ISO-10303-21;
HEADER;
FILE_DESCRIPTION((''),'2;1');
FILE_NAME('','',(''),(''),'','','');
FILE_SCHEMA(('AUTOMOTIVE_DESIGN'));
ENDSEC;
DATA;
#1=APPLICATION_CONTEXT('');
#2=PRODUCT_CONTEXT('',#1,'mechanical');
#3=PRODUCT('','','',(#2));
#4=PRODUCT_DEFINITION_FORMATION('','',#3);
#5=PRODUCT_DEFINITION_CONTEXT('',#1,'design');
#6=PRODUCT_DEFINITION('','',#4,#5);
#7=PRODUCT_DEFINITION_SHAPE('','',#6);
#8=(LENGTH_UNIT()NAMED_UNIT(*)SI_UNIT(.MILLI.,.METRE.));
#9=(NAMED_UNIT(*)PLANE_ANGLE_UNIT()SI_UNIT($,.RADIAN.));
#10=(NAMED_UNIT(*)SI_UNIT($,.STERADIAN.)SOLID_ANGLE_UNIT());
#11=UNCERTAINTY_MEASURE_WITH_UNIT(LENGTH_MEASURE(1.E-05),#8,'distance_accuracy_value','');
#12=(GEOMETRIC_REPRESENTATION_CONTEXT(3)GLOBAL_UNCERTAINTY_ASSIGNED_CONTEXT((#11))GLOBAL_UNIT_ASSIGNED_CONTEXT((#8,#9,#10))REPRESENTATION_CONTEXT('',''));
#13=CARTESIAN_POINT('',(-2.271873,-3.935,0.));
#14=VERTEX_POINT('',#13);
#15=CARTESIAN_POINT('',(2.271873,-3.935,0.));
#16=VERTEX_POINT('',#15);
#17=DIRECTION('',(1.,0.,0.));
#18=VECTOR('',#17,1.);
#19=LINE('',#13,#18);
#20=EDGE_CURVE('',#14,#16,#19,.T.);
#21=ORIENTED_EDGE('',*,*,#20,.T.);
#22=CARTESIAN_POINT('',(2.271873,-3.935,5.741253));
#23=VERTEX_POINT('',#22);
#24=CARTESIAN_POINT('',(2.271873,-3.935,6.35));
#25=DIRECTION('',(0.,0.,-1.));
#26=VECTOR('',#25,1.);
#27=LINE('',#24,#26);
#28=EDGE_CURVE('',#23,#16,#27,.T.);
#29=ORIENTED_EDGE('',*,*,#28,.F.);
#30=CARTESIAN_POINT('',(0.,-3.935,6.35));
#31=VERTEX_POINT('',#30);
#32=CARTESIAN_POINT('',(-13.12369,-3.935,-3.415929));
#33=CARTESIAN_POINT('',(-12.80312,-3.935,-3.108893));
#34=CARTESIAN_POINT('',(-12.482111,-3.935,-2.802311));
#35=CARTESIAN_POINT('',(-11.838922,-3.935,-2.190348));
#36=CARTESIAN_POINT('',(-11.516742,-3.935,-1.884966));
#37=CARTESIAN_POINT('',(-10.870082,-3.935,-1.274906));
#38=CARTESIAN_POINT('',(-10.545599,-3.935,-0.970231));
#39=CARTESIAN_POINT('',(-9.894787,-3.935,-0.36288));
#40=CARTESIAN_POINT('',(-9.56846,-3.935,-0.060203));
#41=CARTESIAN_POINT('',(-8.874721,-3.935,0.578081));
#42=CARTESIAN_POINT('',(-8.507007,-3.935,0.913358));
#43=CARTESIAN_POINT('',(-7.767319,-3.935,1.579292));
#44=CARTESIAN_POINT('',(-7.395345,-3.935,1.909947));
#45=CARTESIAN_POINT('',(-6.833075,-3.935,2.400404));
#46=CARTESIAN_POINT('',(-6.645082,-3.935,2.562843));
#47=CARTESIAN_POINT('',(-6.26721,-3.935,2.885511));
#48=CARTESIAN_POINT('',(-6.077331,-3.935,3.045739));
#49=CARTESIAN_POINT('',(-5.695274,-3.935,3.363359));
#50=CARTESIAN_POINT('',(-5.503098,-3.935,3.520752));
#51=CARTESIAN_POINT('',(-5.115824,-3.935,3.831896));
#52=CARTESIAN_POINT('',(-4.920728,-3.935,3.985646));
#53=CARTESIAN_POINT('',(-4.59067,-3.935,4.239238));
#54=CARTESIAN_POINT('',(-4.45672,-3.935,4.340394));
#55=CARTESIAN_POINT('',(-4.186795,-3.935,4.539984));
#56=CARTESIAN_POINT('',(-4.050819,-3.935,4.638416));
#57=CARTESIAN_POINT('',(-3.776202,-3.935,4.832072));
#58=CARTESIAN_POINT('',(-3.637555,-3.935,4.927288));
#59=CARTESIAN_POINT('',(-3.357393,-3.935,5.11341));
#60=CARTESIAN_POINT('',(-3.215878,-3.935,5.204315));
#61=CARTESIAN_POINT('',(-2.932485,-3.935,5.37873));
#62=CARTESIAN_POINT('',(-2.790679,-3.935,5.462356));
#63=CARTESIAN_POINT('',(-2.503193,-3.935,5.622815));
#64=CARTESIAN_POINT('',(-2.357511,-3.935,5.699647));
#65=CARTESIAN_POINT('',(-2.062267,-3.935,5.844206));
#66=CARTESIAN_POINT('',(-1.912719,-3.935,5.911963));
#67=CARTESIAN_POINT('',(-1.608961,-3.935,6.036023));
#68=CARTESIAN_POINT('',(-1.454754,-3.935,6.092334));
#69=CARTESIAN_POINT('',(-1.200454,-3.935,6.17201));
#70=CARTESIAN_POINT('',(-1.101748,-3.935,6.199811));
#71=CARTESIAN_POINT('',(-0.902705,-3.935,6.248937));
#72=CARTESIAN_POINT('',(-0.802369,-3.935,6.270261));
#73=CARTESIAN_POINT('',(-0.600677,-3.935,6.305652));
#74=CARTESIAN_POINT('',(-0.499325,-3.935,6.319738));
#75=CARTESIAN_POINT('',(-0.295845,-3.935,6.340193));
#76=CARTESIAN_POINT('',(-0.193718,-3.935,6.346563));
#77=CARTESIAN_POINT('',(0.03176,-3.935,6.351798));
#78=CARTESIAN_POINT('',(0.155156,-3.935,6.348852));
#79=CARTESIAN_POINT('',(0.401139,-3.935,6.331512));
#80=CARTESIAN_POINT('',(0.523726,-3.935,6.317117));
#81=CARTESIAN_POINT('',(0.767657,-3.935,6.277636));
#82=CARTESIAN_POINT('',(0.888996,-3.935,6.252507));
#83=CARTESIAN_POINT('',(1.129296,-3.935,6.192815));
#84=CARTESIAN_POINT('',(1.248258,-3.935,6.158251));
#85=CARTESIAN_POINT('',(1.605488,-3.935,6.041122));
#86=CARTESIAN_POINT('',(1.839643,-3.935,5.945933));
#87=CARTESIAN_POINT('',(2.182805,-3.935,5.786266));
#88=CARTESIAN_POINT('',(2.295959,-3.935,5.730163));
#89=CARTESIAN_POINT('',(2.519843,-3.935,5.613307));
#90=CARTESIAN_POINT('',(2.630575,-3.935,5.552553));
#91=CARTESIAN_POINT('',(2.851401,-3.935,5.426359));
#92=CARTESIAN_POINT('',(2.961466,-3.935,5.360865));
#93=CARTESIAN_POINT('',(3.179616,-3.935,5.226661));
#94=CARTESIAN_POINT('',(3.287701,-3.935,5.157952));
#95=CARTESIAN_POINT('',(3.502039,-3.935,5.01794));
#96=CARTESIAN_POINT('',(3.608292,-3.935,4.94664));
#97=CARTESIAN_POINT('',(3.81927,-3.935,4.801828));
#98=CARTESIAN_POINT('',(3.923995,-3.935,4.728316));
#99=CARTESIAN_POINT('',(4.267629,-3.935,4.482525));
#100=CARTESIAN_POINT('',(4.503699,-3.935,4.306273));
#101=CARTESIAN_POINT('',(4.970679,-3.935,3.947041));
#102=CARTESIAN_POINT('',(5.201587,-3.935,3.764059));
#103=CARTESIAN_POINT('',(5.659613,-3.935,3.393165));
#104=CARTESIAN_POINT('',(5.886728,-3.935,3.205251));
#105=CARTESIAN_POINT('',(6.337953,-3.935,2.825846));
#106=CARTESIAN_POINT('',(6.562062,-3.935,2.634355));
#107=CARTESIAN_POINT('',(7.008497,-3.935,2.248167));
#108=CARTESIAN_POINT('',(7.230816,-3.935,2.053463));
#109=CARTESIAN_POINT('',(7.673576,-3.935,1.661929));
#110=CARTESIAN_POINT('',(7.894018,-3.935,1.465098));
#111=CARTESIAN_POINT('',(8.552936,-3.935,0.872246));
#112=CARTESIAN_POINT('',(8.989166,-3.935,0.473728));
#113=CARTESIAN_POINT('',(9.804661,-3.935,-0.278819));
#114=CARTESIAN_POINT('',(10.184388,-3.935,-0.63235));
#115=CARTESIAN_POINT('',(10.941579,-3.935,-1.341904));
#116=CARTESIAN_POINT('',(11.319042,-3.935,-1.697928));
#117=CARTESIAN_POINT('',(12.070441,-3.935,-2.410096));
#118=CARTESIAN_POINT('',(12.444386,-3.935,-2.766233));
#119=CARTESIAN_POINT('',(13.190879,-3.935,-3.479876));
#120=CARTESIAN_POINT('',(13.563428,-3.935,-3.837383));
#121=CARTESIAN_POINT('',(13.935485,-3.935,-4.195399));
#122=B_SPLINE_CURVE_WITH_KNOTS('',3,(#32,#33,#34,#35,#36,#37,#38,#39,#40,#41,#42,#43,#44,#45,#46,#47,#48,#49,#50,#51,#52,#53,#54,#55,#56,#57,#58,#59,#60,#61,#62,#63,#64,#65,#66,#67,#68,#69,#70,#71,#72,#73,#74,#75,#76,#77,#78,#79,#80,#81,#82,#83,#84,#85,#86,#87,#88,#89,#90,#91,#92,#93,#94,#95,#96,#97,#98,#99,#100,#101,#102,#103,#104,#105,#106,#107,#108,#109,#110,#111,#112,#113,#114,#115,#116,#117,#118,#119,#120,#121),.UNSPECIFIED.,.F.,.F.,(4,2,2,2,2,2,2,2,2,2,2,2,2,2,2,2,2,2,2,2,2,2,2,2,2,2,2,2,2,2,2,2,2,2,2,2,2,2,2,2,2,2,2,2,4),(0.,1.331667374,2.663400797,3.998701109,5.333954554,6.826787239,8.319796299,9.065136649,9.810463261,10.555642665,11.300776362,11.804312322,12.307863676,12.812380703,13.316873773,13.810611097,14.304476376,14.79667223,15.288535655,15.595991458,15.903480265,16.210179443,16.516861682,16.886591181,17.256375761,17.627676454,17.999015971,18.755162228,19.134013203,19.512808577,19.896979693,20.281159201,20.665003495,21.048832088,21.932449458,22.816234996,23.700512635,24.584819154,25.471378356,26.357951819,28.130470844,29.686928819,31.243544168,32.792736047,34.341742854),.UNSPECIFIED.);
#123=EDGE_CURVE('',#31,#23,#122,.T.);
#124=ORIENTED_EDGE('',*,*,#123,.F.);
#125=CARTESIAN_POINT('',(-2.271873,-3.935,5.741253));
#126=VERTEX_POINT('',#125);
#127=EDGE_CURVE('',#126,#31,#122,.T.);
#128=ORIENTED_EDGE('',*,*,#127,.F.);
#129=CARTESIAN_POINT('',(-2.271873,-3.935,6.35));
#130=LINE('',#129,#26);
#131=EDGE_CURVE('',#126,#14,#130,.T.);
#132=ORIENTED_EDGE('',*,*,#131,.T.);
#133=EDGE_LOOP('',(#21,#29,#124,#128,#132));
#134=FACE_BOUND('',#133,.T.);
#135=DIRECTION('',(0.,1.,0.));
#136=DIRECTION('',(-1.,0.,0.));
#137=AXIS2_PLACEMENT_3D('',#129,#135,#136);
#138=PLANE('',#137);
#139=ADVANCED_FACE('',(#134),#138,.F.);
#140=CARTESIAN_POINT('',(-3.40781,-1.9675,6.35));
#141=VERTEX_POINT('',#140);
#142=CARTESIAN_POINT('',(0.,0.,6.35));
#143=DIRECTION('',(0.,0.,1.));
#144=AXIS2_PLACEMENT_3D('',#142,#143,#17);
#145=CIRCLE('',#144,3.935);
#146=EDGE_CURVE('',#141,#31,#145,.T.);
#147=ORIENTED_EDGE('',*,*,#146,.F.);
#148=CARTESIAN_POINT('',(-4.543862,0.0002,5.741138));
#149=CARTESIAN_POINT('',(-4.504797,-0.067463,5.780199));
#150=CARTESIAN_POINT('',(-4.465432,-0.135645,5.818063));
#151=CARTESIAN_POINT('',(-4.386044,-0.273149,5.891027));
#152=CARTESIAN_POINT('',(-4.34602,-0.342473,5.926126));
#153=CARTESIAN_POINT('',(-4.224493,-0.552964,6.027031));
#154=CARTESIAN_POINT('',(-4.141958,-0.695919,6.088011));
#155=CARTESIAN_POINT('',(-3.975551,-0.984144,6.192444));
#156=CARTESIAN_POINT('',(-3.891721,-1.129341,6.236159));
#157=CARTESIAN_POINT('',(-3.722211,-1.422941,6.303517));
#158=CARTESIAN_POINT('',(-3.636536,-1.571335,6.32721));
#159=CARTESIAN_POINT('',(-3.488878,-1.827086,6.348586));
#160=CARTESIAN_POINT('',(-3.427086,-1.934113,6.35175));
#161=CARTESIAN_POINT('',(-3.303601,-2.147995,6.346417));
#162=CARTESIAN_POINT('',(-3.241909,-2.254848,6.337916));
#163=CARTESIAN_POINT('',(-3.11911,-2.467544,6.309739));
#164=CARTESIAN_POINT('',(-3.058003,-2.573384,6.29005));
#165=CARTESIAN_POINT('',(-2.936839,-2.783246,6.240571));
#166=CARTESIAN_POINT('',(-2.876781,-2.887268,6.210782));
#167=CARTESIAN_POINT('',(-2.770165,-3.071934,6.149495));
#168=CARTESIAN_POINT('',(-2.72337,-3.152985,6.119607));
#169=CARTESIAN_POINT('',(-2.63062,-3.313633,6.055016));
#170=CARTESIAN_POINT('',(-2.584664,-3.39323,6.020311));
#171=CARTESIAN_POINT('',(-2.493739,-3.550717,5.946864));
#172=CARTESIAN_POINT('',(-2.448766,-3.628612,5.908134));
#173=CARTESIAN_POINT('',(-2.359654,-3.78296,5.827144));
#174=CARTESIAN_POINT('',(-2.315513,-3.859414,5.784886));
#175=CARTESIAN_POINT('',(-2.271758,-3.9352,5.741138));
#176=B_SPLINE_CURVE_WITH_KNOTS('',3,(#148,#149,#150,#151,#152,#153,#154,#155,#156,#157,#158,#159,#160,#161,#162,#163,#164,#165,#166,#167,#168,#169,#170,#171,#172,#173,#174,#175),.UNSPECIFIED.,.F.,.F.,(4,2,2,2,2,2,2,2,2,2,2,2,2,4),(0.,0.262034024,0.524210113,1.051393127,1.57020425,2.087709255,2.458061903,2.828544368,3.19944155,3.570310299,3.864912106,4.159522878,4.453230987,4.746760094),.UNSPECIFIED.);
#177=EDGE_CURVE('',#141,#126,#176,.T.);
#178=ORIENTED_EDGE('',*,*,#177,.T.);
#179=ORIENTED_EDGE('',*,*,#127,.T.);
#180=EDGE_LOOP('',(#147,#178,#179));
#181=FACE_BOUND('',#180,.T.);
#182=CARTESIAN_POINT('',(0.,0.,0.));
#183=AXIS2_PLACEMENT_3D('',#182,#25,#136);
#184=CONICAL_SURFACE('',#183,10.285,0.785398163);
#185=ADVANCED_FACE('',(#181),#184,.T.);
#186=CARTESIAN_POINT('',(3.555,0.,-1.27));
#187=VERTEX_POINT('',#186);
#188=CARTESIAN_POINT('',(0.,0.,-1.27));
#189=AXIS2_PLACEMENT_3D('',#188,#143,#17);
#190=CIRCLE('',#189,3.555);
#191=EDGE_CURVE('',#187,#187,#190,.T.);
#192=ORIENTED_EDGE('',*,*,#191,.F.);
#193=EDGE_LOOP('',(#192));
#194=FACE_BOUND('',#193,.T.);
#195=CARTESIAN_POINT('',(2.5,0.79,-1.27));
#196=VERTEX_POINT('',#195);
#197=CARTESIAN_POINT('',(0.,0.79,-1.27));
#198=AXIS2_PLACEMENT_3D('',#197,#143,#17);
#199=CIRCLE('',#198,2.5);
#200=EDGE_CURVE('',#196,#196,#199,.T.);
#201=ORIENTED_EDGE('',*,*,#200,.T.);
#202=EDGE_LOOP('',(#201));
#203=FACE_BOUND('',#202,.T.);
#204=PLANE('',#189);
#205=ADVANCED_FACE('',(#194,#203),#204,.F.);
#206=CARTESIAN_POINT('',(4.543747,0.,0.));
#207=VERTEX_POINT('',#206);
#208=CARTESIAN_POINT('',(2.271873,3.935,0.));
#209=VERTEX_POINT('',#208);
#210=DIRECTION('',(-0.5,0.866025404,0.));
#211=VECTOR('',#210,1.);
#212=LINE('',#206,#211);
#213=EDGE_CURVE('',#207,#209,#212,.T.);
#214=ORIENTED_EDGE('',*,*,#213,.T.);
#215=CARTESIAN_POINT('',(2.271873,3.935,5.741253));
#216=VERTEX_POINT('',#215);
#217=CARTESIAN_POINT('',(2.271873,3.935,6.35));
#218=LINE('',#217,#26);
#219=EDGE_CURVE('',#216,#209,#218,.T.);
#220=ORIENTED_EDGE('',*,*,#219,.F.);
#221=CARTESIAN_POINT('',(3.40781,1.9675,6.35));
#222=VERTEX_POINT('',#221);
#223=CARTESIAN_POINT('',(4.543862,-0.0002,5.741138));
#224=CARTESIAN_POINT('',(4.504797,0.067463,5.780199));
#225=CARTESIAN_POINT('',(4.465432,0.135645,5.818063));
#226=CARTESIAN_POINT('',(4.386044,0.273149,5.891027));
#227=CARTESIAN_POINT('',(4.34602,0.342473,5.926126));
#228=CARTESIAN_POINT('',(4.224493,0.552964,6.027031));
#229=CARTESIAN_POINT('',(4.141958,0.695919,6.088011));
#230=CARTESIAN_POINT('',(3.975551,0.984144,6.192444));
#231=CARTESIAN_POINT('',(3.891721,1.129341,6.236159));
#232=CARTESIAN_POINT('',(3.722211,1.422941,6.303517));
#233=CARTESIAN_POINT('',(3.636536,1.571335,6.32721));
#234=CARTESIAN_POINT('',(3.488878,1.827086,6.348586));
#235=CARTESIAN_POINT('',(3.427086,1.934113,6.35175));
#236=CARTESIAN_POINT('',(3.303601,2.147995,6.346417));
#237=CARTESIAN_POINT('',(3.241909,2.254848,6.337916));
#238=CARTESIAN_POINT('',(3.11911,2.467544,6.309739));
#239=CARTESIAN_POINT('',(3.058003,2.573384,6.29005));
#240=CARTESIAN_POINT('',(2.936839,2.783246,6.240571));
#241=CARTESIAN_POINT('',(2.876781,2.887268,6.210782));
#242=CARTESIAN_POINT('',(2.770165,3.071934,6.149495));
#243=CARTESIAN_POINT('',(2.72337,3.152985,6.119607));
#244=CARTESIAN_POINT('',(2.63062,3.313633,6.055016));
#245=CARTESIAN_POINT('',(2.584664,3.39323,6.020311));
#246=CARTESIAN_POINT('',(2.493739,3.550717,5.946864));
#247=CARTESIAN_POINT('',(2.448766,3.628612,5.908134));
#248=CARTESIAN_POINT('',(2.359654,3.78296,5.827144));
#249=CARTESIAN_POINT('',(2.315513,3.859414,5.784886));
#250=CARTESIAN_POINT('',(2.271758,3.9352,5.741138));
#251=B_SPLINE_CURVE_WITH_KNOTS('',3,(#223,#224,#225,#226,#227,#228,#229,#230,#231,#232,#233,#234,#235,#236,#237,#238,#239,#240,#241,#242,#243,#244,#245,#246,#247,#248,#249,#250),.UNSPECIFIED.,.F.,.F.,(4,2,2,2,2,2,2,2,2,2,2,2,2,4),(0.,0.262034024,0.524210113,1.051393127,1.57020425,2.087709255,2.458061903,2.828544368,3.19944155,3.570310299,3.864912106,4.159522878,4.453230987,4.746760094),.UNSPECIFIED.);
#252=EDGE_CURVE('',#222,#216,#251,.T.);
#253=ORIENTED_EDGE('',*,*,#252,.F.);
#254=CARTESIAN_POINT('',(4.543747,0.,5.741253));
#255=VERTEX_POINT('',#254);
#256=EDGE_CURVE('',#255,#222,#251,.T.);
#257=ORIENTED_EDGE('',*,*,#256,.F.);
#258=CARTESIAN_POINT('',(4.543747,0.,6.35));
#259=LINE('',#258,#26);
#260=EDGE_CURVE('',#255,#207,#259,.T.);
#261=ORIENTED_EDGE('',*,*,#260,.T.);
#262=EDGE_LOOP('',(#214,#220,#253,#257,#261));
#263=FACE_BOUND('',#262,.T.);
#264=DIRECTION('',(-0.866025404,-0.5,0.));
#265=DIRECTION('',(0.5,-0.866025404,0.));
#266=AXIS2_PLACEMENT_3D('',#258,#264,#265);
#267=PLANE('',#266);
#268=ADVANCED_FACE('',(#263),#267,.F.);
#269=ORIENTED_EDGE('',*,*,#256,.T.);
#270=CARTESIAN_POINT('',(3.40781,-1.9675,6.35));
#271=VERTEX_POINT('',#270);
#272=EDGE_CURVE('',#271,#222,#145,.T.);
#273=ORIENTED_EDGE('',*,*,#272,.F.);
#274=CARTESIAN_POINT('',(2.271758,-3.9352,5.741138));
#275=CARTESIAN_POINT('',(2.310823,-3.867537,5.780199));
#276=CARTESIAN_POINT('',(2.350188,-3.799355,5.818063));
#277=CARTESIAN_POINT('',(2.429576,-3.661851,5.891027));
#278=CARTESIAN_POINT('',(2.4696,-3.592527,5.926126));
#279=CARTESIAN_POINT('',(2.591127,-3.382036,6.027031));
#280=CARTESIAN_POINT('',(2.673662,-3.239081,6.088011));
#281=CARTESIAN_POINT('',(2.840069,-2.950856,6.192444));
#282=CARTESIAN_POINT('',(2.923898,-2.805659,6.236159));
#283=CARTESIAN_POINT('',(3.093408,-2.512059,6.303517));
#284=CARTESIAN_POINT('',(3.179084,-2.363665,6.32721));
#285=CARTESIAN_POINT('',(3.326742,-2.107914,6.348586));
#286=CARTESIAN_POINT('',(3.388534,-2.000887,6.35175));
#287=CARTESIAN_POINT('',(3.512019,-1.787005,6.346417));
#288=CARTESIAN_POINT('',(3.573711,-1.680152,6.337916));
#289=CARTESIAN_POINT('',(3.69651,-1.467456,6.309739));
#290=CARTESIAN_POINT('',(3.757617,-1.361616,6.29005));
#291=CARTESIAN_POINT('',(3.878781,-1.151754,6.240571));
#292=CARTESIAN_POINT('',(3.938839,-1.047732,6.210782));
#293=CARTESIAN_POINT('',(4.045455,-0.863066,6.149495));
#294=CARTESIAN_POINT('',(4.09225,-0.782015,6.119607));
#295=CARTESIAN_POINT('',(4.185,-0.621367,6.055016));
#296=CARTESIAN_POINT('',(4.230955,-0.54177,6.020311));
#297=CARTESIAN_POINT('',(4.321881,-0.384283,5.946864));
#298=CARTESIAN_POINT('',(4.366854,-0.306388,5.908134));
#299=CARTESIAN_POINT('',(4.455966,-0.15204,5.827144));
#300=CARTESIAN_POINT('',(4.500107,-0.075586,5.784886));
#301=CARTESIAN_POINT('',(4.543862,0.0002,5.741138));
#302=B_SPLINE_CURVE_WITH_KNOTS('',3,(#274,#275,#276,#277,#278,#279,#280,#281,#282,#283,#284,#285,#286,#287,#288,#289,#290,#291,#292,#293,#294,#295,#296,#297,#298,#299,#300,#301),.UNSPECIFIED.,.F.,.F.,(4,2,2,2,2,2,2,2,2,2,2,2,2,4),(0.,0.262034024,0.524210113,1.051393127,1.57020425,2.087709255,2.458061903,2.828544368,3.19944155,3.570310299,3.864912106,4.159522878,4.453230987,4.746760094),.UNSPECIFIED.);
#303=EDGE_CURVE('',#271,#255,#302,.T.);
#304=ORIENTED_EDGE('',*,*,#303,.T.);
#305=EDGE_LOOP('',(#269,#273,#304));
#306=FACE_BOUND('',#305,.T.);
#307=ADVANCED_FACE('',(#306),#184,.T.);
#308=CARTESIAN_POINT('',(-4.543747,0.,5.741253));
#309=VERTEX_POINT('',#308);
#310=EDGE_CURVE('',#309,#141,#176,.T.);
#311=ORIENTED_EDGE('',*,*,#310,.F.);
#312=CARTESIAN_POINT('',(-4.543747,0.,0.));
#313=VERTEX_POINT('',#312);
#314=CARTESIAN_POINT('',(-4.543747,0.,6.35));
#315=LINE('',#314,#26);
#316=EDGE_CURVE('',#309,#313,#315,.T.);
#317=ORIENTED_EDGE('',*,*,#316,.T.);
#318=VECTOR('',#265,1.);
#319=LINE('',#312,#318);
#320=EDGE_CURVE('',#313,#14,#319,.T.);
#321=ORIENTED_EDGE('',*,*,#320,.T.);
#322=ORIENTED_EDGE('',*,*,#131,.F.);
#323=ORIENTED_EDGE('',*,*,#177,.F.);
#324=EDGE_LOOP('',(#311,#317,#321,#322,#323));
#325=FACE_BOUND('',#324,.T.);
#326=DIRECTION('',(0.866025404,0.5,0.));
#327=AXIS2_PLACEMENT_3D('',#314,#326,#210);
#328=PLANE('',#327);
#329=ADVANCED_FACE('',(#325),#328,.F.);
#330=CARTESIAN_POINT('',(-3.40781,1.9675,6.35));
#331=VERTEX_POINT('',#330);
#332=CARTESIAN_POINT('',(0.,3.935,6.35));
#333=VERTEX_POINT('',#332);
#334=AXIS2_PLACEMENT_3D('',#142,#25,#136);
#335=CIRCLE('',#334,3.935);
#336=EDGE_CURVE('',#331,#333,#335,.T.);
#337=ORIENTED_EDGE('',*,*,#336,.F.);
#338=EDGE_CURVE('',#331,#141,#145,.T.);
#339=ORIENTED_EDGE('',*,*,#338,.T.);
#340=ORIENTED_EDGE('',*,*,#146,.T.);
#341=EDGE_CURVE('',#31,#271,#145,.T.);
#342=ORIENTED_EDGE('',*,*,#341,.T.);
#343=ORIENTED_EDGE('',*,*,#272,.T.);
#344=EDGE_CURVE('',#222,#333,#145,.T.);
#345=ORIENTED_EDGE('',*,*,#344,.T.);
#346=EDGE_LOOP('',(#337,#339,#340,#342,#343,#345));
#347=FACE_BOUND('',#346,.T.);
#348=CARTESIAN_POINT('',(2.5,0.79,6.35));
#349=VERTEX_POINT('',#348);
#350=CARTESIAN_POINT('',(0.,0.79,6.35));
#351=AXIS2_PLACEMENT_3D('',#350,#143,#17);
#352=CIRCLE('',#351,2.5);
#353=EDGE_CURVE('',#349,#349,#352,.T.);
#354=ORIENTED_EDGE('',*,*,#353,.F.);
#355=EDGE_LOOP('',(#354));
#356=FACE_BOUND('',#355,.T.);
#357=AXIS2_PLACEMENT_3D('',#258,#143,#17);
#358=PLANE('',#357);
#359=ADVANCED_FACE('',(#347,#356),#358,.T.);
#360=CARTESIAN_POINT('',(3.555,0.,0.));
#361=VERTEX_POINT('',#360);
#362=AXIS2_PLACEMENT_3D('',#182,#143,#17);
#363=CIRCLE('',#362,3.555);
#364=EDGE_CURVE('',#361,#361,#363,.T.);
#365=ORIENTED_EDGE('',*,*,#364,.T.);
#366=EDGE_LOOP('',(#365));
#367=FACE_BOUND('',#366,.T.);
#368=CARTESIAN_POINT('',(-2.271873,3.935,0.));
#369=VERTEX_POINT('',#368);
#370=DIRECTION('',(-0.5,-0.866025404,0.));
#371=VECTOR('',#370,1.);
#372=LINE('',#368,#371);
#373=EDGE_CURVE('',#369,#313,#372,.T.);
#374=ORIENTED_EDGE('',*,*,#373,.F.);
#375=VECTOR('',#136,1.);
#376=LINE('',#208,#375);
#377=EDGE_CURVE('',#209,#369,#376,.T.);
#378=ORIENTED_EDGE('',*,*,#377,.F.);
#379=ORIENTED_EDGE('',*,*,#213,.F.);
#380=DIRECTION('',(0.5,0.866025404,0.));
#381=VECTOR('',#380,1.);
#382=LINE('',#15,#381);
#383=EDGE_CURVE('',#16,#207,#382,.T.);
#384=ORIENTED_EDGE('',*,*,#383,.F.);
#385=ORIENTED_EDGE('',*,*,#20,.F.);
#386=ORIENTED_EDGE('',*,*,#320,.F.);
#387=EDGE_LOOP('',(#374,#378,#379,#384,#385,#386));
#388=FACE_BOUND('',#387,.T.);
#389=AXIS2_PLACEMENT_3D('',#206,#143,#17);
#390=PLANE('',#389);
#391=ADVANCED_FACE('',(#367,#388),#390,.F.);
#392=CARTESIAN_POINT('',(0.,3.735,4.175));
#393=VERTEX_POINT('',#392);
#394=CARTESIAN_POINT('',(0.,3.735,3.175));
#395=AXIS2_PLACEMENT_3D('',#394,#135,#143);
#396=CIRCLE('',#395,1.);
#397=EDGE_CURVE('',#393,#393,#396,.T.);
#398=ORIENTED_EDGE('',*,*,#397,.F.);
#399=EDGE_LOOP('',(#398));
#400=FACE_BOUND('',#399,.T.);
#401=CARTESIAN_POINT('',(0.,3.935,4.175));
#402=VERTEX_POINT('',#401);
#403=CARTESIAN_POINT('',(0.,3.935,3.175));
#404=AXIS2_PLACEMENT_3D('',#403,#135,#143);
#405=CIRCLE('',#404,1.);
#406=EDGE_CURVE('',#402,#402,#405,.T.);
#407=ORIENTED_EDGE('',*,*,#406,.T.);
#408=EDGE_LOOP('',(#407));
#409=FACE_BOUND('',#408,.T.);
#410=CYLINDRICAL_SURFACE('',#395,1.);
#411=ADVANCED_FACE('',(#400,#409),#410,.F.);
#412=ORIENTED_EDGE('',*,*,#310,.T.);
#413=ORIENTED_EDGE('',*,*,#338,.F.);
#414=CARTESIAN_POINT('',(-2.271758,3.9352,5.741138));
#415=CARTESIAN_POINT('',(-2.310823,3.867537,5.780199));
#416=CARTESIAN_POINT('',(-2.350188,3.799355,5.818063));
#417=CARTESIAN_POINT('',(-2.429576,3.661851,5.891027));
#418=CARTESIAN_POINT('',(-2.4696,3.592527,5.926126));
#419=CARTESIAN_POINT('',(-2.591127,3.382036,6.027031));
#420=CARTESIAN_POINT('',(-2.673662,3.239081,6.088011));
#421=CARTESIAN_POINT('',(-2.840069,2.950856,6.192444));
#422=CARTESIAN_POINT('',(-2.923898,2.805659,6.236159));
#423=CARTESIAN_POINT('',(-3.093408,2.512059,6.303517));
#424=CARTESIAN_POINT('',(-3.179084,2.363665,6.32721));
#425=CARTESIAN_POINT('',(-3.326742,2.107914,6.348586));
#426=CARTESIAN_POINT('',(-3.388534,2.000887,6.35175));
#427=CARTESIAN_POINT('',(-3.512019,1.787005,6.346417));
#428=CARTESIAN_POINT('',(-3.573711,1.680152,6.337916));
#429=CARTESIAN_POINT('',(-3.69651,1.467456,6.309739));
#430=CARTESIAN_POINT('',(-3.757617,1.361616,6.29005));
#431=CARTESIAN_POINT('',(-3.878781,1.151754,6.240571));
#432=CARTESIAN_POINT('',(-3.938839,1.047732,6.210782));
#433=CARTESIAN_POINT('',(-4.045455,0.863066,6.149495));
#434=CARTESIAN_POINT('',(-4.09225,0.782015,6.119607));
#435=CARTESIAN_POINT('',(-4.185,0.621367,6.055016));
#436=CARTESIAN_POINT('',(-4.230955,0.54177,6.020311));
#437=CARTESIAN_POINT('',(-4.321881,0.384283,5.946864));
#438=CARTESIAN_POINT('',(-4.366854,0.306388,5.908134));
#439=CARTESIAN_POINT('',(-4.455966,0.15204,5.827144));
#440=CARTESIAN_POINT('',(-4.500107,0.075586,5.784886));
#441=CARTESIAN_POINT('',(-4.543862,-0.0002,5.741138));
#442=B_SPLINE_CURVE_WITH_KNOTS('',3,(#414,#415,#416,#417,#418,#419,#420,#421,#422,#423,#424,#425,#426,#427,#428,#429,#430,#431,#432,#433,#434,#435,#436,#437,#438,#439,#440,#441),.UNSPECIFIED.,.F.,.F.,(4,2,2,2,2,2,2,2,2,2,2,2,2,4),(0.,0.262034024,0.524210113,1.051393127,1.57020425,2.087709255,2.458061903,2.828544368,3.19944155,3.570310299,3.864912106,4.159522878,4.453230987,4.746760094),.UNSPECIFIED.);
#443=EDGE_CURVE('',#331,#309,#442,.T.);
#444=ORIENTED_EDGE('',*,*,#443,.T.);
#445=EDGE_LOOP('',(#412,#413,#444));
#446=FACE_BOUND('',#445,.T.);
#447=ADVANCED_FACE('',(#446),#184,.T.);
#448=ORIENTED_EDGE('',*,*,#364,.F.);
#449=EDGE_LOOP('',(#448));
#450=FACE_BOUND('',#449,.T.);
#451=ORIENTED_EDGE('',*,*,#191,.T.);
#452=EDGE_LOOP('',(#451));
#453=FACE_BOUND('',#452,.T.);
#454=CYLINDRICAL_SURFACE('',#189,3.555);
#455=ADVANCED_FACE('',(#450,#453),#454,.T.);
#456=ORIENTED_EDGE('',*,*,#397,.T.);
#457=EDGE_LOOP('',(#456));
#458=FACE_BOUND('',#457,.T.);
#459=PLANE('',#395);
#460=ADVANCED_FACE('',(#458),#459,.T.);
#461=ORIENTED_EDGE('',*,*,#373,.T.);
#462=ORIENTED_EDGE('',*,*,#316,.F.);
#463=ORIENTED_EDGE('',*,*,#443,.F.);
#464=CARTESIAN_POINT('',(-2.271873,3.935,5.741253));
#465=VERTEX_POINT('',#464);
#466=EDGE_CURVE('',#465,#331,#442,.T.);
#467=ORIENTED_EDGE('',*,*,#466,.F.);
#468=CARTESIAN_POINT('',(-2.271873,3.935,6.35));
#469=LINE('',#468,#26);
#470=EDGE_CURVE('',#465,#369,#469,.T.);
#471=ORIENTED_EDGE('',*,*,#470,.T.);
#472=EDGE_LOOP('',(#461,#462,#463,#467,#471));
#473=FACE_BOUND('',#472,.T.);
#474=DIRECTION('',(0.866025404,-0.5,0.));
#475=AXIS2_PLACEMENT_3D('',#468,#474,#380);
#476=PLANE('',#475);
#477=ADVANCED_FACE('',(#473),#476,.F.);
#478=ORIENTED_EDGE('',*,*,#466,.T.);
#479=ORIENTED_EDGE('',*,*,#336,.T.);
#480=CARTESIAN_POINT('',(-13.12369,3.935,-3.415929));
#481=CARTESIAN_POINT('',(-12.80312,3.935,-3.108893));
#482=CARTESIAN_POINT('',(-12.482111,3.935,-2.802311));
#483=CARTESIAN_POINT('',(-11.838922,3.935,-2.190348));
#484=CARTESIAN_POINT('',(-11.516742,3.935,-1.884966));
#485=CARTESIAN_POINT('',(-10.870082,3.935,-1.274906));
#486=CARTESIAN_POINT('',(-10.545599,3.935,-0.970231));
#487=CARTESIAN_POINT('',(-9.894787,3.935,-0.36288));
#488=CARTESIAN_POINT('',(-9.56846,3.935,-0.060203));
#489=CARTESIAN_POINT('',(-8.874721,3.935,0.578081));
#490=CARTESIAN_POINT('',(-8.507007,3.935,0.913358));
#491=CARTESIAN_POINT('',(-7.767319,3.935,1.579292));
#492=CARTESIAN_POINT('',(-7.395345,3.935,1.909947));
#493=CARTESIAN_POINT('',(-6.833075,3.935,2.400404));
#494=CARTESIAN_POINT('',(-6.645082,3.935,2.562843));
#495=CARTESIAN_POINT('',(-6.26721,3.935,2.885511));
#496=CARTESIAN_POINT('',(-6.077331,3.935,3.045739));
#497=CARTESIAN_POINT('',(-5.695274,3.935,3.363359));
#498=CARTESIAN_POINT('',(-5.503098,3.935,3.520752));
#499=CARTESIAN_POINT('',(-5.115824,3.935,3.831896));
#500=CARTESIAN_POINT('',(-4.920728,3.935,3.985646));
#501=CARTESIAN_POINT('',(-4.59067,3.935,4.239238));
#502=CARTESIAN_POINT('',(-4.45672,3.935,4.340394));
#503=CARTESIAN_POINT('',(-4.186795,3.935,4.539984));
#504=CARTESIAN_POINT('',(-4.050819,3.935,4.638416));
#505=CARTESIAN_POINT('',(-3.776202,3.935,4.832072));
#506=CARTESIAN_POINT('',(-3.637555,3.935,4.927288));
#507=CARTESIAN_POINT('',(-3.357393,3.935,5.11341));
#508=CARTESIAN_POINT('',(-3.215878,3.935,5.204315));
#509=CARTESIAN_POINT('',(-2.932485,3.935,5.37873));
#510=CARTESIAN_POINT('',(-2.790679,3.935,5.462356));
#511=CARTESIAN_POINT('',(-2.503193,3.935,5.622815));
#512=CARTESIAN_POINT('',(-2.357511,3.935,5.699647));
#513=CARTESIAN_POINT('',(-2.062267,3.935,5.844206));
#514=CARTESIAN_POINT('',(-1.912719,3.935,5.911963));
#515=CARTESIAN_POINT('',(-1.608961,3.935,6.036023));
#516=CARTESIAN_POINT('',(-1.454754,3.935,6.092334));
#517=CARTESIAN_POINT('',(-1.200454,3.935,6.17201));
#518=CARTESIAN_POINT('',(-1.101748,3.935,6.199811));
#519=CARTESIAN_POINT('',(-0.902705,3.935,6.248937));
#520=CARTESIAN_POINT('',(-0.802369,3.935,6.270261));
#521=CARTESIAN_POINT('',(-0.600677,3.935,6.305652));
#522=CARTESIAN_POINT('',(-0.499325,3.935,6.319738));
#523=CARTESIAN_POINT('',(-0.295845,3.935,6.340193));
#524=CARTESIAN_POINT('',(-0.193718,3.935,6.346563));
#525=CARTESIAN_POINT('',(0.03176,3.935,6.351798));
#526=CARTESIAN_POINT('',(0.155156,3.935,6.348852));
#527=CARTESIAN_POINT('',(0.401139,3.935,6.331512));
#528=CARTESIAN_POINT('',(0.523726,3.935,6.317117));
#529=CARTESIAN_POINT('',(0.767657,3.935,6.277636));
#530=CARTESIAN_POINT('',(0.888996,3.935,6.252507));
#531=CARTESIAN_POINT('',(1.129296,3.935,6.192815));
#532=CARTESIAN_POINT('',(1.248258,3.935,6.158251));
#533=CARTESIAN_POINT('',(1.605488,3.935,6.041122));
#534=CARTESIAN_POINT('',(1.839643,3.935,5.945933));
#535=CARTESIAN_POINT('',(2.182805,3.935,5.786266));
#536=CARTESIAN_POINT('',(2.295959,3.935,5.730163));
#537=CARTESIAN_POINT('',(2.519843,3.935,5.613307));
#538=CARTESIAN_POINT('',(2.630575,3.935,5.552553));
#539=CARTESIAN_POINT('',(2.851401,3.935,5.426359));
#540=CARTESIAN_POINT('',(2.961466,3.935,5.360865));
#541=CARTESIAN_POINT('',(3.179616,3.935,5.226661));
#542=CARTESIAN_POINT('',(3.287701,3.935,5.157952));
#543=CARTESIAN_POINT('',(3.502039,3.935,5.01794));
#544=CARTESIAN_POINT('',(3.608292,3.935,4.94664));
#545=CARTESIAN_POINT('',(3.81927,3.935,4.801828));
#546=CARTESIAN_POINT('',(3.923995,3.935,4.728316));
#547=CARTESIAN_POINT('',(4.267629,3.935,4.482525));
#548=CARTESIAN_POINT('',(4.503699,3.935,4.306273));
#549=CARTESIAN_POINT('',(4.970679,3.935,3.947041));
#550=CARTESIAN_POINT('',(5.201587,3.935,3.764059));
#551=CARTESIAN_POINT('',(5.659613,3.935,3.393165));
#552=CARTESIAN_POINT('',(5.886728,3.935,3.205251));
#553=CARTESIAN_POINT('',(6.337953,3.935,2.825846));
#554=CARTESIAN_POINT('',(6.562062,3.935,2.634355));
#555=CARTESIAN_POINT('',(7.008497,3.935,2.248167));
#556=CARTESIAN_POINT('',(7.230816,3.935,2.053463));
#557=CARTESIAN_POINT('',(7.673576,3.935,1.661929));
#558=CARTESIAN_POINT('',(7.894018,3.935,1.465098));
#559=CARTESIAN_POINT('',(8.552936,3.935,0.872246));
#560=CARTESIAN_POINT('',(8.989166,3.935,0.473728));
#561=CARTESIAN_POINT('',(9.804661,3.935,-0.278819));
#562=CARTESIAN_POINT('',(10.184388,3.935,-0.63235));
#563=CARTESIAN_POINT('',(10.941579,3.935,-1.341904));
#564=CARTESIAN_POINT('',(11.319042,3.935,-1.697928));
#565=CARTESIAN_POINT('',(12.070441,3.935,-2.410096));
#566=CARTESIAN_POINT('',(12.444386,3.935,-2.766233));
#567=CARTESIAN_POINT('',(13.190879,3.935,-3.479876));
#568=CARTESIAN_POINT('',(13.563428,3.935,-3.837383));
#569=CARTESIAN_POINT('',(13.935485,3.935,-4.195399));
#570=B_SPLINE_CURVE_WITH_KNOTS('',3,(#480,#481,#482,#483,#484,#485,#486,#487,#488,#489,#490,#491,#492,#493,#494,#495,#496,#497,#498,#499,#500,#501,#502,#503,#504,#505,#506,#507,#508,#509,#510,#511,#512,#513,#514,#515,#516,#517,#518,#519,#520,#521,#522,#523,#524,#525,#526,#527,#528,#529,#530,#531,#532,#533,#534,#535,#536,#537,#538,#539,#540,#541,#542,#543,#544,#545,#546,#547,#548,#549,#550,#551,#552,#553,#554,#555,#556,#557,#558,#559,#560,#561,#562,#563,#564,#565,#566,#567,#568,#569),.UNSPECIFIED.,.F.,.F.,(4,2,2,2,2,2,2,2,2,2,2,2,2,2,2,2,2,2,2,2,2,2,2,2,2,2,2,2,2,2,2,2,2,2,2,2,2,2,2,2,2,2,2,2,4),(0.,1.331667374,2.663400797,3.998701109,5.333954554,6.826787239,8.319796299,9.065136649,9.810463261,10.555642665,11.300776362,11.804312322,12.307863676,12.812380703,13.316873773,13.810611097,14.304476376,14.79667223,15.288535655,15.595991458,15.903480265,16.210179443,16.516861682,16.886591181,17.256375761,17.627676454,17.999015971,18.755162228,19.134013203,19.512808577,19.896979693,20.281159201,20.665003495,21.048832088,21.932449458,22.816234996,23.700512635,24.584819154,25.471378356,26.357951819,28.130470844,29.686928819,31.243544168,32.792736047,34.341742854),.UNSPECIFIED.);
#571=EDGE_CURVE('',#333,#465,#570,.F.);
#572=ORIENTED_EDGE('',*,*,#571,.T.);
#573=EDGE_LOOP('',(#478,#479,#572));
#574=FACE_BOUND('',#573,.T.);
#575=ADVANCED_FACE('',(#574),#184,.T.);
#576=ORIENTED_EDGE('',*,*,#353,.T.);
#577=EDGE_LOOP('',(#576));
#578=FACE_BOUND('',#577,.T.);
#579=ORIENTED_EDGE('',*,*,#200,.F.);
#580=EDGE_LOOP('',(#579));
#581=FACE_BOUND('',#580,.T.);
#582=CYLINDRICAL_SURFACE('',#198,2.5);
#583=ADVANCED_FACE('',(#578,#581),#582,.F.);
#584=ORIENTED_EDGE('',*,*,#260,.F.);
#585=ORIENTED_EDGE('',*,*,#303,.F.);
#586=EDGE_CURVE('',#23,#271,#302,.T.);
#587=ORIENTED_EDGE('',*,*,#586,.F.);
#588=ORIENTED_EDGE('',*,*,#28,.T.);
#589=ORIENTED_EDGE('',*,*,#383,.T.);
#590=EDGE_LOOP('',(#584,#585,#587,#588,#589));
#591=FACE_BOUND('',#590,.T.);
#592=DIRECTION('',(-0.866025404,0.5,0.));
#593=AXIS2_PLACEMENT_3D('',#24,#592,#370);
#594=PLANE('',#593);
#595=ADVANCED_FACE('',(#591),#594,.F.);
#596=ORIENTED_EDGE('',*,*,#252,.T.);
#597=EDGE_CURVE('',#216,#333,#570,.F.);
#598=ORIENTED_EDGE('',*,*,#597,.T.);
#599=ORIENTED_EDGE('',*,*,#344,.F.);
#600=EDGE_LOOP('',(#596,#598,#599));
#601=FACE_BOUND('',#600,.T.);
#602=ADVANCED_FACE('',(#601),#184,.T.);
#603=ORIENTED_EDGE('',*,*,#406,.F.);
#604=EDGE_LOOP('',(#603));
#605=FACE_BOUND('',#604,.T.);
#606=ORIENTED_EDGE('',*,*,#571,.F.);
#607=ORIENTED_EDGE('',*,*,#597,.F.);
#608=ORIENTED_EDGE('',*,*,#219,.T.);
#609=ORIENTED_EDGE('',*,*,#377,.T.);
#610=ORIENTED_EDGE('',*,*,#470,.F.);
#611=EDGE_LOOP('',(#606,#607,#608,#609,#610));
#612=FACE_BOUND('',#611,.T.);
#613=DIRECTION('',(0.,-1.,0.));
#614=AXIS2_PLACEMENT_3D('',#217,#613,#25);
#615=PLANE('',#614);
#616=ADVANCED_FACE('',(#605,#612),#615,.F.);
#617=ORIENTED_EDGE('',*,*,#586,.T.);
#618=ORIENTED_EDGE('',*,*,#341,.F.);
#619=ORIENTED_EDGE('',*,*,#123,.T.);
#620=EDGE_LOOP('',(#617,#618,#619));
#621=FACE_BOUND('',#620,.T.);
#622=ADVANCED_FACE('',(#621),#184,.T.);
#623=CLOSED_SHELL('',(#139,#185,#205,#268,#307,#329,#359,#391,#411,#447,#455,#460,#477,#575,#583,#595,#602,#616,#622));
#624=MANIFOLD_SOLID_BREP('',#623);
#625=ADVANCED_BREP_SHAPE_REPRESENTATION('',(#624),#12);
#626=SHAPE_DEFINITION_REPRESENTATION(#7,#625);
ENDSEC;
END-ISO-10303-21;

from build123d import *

# Parameters (mm, degrees)
SKETCH1_R      = 3.555
EXTRUDE1_DEPTH = 1.27
ICE1_DEPTH     = 6.35
SKETCH3_R      = 2.5
ICE2_DEPTH     = 8.62
SKETCH4_R      = 1
ICE3_DEPTH     = 0.2


with BuildPart() as part:
    # Sketch1 → Extrude1 (new body)
    with BuildSketch(Plane.XY):
        Circle(SKETCH1_R)
    extrude(amount=-EXTRUDE1_DEPTH)

    # Sketch2 → ICE1 (add)
    with BuildSketch(Plane.XY):
        Polygon((4.543746619, 0), (2.271873309, 3.935), (-2.271873309, 3.935), (-4.543746619, 0), (-2.271873309, -3.935), (2.271873309, -3.935), align=None)
    extrude(amount=ICE1_DEPTH)

    # Sketch3 → ICE2 (cut, through all)
    with BuildSketch(Plane.XY.offset(6.35)):
        with Locations((0, 0.79)):
            Circle(SKETCH3_R)
    extrude(amount=-ICE2_DEPTH, mode=Mode.SUBTRACT)

    # Sketch4 → ICE3 (cut)
    with BuildSketch(Plane(origin=(0, 3.935, 0), x_dir=(1, 0, 0), z_dir=(0, 1, 0))):
        with Locations((0, -3.175)):
            Circle(SKETCH4_R)
    extrude(amount=-ICE3_DEPTH, mode=Mode.SUBTRACT)

    # Sketch5 → RevCut1 (revolve, cut)
    with BuildSketch(Plane(origin=(0, 0, 0), x_dir=(-0.866025404, -0.5, 0), z_dir=(-0.5, 0.866025404, 0))):
        Polygon((-3.935, 6.35), (-10.285, 0), (-10.285, 6.35), align=None)
    revolve(axis=Axis((0, 0, 0), (0, 0, 1)), mode=Mode.SUBTRACT)


solid = part.part
